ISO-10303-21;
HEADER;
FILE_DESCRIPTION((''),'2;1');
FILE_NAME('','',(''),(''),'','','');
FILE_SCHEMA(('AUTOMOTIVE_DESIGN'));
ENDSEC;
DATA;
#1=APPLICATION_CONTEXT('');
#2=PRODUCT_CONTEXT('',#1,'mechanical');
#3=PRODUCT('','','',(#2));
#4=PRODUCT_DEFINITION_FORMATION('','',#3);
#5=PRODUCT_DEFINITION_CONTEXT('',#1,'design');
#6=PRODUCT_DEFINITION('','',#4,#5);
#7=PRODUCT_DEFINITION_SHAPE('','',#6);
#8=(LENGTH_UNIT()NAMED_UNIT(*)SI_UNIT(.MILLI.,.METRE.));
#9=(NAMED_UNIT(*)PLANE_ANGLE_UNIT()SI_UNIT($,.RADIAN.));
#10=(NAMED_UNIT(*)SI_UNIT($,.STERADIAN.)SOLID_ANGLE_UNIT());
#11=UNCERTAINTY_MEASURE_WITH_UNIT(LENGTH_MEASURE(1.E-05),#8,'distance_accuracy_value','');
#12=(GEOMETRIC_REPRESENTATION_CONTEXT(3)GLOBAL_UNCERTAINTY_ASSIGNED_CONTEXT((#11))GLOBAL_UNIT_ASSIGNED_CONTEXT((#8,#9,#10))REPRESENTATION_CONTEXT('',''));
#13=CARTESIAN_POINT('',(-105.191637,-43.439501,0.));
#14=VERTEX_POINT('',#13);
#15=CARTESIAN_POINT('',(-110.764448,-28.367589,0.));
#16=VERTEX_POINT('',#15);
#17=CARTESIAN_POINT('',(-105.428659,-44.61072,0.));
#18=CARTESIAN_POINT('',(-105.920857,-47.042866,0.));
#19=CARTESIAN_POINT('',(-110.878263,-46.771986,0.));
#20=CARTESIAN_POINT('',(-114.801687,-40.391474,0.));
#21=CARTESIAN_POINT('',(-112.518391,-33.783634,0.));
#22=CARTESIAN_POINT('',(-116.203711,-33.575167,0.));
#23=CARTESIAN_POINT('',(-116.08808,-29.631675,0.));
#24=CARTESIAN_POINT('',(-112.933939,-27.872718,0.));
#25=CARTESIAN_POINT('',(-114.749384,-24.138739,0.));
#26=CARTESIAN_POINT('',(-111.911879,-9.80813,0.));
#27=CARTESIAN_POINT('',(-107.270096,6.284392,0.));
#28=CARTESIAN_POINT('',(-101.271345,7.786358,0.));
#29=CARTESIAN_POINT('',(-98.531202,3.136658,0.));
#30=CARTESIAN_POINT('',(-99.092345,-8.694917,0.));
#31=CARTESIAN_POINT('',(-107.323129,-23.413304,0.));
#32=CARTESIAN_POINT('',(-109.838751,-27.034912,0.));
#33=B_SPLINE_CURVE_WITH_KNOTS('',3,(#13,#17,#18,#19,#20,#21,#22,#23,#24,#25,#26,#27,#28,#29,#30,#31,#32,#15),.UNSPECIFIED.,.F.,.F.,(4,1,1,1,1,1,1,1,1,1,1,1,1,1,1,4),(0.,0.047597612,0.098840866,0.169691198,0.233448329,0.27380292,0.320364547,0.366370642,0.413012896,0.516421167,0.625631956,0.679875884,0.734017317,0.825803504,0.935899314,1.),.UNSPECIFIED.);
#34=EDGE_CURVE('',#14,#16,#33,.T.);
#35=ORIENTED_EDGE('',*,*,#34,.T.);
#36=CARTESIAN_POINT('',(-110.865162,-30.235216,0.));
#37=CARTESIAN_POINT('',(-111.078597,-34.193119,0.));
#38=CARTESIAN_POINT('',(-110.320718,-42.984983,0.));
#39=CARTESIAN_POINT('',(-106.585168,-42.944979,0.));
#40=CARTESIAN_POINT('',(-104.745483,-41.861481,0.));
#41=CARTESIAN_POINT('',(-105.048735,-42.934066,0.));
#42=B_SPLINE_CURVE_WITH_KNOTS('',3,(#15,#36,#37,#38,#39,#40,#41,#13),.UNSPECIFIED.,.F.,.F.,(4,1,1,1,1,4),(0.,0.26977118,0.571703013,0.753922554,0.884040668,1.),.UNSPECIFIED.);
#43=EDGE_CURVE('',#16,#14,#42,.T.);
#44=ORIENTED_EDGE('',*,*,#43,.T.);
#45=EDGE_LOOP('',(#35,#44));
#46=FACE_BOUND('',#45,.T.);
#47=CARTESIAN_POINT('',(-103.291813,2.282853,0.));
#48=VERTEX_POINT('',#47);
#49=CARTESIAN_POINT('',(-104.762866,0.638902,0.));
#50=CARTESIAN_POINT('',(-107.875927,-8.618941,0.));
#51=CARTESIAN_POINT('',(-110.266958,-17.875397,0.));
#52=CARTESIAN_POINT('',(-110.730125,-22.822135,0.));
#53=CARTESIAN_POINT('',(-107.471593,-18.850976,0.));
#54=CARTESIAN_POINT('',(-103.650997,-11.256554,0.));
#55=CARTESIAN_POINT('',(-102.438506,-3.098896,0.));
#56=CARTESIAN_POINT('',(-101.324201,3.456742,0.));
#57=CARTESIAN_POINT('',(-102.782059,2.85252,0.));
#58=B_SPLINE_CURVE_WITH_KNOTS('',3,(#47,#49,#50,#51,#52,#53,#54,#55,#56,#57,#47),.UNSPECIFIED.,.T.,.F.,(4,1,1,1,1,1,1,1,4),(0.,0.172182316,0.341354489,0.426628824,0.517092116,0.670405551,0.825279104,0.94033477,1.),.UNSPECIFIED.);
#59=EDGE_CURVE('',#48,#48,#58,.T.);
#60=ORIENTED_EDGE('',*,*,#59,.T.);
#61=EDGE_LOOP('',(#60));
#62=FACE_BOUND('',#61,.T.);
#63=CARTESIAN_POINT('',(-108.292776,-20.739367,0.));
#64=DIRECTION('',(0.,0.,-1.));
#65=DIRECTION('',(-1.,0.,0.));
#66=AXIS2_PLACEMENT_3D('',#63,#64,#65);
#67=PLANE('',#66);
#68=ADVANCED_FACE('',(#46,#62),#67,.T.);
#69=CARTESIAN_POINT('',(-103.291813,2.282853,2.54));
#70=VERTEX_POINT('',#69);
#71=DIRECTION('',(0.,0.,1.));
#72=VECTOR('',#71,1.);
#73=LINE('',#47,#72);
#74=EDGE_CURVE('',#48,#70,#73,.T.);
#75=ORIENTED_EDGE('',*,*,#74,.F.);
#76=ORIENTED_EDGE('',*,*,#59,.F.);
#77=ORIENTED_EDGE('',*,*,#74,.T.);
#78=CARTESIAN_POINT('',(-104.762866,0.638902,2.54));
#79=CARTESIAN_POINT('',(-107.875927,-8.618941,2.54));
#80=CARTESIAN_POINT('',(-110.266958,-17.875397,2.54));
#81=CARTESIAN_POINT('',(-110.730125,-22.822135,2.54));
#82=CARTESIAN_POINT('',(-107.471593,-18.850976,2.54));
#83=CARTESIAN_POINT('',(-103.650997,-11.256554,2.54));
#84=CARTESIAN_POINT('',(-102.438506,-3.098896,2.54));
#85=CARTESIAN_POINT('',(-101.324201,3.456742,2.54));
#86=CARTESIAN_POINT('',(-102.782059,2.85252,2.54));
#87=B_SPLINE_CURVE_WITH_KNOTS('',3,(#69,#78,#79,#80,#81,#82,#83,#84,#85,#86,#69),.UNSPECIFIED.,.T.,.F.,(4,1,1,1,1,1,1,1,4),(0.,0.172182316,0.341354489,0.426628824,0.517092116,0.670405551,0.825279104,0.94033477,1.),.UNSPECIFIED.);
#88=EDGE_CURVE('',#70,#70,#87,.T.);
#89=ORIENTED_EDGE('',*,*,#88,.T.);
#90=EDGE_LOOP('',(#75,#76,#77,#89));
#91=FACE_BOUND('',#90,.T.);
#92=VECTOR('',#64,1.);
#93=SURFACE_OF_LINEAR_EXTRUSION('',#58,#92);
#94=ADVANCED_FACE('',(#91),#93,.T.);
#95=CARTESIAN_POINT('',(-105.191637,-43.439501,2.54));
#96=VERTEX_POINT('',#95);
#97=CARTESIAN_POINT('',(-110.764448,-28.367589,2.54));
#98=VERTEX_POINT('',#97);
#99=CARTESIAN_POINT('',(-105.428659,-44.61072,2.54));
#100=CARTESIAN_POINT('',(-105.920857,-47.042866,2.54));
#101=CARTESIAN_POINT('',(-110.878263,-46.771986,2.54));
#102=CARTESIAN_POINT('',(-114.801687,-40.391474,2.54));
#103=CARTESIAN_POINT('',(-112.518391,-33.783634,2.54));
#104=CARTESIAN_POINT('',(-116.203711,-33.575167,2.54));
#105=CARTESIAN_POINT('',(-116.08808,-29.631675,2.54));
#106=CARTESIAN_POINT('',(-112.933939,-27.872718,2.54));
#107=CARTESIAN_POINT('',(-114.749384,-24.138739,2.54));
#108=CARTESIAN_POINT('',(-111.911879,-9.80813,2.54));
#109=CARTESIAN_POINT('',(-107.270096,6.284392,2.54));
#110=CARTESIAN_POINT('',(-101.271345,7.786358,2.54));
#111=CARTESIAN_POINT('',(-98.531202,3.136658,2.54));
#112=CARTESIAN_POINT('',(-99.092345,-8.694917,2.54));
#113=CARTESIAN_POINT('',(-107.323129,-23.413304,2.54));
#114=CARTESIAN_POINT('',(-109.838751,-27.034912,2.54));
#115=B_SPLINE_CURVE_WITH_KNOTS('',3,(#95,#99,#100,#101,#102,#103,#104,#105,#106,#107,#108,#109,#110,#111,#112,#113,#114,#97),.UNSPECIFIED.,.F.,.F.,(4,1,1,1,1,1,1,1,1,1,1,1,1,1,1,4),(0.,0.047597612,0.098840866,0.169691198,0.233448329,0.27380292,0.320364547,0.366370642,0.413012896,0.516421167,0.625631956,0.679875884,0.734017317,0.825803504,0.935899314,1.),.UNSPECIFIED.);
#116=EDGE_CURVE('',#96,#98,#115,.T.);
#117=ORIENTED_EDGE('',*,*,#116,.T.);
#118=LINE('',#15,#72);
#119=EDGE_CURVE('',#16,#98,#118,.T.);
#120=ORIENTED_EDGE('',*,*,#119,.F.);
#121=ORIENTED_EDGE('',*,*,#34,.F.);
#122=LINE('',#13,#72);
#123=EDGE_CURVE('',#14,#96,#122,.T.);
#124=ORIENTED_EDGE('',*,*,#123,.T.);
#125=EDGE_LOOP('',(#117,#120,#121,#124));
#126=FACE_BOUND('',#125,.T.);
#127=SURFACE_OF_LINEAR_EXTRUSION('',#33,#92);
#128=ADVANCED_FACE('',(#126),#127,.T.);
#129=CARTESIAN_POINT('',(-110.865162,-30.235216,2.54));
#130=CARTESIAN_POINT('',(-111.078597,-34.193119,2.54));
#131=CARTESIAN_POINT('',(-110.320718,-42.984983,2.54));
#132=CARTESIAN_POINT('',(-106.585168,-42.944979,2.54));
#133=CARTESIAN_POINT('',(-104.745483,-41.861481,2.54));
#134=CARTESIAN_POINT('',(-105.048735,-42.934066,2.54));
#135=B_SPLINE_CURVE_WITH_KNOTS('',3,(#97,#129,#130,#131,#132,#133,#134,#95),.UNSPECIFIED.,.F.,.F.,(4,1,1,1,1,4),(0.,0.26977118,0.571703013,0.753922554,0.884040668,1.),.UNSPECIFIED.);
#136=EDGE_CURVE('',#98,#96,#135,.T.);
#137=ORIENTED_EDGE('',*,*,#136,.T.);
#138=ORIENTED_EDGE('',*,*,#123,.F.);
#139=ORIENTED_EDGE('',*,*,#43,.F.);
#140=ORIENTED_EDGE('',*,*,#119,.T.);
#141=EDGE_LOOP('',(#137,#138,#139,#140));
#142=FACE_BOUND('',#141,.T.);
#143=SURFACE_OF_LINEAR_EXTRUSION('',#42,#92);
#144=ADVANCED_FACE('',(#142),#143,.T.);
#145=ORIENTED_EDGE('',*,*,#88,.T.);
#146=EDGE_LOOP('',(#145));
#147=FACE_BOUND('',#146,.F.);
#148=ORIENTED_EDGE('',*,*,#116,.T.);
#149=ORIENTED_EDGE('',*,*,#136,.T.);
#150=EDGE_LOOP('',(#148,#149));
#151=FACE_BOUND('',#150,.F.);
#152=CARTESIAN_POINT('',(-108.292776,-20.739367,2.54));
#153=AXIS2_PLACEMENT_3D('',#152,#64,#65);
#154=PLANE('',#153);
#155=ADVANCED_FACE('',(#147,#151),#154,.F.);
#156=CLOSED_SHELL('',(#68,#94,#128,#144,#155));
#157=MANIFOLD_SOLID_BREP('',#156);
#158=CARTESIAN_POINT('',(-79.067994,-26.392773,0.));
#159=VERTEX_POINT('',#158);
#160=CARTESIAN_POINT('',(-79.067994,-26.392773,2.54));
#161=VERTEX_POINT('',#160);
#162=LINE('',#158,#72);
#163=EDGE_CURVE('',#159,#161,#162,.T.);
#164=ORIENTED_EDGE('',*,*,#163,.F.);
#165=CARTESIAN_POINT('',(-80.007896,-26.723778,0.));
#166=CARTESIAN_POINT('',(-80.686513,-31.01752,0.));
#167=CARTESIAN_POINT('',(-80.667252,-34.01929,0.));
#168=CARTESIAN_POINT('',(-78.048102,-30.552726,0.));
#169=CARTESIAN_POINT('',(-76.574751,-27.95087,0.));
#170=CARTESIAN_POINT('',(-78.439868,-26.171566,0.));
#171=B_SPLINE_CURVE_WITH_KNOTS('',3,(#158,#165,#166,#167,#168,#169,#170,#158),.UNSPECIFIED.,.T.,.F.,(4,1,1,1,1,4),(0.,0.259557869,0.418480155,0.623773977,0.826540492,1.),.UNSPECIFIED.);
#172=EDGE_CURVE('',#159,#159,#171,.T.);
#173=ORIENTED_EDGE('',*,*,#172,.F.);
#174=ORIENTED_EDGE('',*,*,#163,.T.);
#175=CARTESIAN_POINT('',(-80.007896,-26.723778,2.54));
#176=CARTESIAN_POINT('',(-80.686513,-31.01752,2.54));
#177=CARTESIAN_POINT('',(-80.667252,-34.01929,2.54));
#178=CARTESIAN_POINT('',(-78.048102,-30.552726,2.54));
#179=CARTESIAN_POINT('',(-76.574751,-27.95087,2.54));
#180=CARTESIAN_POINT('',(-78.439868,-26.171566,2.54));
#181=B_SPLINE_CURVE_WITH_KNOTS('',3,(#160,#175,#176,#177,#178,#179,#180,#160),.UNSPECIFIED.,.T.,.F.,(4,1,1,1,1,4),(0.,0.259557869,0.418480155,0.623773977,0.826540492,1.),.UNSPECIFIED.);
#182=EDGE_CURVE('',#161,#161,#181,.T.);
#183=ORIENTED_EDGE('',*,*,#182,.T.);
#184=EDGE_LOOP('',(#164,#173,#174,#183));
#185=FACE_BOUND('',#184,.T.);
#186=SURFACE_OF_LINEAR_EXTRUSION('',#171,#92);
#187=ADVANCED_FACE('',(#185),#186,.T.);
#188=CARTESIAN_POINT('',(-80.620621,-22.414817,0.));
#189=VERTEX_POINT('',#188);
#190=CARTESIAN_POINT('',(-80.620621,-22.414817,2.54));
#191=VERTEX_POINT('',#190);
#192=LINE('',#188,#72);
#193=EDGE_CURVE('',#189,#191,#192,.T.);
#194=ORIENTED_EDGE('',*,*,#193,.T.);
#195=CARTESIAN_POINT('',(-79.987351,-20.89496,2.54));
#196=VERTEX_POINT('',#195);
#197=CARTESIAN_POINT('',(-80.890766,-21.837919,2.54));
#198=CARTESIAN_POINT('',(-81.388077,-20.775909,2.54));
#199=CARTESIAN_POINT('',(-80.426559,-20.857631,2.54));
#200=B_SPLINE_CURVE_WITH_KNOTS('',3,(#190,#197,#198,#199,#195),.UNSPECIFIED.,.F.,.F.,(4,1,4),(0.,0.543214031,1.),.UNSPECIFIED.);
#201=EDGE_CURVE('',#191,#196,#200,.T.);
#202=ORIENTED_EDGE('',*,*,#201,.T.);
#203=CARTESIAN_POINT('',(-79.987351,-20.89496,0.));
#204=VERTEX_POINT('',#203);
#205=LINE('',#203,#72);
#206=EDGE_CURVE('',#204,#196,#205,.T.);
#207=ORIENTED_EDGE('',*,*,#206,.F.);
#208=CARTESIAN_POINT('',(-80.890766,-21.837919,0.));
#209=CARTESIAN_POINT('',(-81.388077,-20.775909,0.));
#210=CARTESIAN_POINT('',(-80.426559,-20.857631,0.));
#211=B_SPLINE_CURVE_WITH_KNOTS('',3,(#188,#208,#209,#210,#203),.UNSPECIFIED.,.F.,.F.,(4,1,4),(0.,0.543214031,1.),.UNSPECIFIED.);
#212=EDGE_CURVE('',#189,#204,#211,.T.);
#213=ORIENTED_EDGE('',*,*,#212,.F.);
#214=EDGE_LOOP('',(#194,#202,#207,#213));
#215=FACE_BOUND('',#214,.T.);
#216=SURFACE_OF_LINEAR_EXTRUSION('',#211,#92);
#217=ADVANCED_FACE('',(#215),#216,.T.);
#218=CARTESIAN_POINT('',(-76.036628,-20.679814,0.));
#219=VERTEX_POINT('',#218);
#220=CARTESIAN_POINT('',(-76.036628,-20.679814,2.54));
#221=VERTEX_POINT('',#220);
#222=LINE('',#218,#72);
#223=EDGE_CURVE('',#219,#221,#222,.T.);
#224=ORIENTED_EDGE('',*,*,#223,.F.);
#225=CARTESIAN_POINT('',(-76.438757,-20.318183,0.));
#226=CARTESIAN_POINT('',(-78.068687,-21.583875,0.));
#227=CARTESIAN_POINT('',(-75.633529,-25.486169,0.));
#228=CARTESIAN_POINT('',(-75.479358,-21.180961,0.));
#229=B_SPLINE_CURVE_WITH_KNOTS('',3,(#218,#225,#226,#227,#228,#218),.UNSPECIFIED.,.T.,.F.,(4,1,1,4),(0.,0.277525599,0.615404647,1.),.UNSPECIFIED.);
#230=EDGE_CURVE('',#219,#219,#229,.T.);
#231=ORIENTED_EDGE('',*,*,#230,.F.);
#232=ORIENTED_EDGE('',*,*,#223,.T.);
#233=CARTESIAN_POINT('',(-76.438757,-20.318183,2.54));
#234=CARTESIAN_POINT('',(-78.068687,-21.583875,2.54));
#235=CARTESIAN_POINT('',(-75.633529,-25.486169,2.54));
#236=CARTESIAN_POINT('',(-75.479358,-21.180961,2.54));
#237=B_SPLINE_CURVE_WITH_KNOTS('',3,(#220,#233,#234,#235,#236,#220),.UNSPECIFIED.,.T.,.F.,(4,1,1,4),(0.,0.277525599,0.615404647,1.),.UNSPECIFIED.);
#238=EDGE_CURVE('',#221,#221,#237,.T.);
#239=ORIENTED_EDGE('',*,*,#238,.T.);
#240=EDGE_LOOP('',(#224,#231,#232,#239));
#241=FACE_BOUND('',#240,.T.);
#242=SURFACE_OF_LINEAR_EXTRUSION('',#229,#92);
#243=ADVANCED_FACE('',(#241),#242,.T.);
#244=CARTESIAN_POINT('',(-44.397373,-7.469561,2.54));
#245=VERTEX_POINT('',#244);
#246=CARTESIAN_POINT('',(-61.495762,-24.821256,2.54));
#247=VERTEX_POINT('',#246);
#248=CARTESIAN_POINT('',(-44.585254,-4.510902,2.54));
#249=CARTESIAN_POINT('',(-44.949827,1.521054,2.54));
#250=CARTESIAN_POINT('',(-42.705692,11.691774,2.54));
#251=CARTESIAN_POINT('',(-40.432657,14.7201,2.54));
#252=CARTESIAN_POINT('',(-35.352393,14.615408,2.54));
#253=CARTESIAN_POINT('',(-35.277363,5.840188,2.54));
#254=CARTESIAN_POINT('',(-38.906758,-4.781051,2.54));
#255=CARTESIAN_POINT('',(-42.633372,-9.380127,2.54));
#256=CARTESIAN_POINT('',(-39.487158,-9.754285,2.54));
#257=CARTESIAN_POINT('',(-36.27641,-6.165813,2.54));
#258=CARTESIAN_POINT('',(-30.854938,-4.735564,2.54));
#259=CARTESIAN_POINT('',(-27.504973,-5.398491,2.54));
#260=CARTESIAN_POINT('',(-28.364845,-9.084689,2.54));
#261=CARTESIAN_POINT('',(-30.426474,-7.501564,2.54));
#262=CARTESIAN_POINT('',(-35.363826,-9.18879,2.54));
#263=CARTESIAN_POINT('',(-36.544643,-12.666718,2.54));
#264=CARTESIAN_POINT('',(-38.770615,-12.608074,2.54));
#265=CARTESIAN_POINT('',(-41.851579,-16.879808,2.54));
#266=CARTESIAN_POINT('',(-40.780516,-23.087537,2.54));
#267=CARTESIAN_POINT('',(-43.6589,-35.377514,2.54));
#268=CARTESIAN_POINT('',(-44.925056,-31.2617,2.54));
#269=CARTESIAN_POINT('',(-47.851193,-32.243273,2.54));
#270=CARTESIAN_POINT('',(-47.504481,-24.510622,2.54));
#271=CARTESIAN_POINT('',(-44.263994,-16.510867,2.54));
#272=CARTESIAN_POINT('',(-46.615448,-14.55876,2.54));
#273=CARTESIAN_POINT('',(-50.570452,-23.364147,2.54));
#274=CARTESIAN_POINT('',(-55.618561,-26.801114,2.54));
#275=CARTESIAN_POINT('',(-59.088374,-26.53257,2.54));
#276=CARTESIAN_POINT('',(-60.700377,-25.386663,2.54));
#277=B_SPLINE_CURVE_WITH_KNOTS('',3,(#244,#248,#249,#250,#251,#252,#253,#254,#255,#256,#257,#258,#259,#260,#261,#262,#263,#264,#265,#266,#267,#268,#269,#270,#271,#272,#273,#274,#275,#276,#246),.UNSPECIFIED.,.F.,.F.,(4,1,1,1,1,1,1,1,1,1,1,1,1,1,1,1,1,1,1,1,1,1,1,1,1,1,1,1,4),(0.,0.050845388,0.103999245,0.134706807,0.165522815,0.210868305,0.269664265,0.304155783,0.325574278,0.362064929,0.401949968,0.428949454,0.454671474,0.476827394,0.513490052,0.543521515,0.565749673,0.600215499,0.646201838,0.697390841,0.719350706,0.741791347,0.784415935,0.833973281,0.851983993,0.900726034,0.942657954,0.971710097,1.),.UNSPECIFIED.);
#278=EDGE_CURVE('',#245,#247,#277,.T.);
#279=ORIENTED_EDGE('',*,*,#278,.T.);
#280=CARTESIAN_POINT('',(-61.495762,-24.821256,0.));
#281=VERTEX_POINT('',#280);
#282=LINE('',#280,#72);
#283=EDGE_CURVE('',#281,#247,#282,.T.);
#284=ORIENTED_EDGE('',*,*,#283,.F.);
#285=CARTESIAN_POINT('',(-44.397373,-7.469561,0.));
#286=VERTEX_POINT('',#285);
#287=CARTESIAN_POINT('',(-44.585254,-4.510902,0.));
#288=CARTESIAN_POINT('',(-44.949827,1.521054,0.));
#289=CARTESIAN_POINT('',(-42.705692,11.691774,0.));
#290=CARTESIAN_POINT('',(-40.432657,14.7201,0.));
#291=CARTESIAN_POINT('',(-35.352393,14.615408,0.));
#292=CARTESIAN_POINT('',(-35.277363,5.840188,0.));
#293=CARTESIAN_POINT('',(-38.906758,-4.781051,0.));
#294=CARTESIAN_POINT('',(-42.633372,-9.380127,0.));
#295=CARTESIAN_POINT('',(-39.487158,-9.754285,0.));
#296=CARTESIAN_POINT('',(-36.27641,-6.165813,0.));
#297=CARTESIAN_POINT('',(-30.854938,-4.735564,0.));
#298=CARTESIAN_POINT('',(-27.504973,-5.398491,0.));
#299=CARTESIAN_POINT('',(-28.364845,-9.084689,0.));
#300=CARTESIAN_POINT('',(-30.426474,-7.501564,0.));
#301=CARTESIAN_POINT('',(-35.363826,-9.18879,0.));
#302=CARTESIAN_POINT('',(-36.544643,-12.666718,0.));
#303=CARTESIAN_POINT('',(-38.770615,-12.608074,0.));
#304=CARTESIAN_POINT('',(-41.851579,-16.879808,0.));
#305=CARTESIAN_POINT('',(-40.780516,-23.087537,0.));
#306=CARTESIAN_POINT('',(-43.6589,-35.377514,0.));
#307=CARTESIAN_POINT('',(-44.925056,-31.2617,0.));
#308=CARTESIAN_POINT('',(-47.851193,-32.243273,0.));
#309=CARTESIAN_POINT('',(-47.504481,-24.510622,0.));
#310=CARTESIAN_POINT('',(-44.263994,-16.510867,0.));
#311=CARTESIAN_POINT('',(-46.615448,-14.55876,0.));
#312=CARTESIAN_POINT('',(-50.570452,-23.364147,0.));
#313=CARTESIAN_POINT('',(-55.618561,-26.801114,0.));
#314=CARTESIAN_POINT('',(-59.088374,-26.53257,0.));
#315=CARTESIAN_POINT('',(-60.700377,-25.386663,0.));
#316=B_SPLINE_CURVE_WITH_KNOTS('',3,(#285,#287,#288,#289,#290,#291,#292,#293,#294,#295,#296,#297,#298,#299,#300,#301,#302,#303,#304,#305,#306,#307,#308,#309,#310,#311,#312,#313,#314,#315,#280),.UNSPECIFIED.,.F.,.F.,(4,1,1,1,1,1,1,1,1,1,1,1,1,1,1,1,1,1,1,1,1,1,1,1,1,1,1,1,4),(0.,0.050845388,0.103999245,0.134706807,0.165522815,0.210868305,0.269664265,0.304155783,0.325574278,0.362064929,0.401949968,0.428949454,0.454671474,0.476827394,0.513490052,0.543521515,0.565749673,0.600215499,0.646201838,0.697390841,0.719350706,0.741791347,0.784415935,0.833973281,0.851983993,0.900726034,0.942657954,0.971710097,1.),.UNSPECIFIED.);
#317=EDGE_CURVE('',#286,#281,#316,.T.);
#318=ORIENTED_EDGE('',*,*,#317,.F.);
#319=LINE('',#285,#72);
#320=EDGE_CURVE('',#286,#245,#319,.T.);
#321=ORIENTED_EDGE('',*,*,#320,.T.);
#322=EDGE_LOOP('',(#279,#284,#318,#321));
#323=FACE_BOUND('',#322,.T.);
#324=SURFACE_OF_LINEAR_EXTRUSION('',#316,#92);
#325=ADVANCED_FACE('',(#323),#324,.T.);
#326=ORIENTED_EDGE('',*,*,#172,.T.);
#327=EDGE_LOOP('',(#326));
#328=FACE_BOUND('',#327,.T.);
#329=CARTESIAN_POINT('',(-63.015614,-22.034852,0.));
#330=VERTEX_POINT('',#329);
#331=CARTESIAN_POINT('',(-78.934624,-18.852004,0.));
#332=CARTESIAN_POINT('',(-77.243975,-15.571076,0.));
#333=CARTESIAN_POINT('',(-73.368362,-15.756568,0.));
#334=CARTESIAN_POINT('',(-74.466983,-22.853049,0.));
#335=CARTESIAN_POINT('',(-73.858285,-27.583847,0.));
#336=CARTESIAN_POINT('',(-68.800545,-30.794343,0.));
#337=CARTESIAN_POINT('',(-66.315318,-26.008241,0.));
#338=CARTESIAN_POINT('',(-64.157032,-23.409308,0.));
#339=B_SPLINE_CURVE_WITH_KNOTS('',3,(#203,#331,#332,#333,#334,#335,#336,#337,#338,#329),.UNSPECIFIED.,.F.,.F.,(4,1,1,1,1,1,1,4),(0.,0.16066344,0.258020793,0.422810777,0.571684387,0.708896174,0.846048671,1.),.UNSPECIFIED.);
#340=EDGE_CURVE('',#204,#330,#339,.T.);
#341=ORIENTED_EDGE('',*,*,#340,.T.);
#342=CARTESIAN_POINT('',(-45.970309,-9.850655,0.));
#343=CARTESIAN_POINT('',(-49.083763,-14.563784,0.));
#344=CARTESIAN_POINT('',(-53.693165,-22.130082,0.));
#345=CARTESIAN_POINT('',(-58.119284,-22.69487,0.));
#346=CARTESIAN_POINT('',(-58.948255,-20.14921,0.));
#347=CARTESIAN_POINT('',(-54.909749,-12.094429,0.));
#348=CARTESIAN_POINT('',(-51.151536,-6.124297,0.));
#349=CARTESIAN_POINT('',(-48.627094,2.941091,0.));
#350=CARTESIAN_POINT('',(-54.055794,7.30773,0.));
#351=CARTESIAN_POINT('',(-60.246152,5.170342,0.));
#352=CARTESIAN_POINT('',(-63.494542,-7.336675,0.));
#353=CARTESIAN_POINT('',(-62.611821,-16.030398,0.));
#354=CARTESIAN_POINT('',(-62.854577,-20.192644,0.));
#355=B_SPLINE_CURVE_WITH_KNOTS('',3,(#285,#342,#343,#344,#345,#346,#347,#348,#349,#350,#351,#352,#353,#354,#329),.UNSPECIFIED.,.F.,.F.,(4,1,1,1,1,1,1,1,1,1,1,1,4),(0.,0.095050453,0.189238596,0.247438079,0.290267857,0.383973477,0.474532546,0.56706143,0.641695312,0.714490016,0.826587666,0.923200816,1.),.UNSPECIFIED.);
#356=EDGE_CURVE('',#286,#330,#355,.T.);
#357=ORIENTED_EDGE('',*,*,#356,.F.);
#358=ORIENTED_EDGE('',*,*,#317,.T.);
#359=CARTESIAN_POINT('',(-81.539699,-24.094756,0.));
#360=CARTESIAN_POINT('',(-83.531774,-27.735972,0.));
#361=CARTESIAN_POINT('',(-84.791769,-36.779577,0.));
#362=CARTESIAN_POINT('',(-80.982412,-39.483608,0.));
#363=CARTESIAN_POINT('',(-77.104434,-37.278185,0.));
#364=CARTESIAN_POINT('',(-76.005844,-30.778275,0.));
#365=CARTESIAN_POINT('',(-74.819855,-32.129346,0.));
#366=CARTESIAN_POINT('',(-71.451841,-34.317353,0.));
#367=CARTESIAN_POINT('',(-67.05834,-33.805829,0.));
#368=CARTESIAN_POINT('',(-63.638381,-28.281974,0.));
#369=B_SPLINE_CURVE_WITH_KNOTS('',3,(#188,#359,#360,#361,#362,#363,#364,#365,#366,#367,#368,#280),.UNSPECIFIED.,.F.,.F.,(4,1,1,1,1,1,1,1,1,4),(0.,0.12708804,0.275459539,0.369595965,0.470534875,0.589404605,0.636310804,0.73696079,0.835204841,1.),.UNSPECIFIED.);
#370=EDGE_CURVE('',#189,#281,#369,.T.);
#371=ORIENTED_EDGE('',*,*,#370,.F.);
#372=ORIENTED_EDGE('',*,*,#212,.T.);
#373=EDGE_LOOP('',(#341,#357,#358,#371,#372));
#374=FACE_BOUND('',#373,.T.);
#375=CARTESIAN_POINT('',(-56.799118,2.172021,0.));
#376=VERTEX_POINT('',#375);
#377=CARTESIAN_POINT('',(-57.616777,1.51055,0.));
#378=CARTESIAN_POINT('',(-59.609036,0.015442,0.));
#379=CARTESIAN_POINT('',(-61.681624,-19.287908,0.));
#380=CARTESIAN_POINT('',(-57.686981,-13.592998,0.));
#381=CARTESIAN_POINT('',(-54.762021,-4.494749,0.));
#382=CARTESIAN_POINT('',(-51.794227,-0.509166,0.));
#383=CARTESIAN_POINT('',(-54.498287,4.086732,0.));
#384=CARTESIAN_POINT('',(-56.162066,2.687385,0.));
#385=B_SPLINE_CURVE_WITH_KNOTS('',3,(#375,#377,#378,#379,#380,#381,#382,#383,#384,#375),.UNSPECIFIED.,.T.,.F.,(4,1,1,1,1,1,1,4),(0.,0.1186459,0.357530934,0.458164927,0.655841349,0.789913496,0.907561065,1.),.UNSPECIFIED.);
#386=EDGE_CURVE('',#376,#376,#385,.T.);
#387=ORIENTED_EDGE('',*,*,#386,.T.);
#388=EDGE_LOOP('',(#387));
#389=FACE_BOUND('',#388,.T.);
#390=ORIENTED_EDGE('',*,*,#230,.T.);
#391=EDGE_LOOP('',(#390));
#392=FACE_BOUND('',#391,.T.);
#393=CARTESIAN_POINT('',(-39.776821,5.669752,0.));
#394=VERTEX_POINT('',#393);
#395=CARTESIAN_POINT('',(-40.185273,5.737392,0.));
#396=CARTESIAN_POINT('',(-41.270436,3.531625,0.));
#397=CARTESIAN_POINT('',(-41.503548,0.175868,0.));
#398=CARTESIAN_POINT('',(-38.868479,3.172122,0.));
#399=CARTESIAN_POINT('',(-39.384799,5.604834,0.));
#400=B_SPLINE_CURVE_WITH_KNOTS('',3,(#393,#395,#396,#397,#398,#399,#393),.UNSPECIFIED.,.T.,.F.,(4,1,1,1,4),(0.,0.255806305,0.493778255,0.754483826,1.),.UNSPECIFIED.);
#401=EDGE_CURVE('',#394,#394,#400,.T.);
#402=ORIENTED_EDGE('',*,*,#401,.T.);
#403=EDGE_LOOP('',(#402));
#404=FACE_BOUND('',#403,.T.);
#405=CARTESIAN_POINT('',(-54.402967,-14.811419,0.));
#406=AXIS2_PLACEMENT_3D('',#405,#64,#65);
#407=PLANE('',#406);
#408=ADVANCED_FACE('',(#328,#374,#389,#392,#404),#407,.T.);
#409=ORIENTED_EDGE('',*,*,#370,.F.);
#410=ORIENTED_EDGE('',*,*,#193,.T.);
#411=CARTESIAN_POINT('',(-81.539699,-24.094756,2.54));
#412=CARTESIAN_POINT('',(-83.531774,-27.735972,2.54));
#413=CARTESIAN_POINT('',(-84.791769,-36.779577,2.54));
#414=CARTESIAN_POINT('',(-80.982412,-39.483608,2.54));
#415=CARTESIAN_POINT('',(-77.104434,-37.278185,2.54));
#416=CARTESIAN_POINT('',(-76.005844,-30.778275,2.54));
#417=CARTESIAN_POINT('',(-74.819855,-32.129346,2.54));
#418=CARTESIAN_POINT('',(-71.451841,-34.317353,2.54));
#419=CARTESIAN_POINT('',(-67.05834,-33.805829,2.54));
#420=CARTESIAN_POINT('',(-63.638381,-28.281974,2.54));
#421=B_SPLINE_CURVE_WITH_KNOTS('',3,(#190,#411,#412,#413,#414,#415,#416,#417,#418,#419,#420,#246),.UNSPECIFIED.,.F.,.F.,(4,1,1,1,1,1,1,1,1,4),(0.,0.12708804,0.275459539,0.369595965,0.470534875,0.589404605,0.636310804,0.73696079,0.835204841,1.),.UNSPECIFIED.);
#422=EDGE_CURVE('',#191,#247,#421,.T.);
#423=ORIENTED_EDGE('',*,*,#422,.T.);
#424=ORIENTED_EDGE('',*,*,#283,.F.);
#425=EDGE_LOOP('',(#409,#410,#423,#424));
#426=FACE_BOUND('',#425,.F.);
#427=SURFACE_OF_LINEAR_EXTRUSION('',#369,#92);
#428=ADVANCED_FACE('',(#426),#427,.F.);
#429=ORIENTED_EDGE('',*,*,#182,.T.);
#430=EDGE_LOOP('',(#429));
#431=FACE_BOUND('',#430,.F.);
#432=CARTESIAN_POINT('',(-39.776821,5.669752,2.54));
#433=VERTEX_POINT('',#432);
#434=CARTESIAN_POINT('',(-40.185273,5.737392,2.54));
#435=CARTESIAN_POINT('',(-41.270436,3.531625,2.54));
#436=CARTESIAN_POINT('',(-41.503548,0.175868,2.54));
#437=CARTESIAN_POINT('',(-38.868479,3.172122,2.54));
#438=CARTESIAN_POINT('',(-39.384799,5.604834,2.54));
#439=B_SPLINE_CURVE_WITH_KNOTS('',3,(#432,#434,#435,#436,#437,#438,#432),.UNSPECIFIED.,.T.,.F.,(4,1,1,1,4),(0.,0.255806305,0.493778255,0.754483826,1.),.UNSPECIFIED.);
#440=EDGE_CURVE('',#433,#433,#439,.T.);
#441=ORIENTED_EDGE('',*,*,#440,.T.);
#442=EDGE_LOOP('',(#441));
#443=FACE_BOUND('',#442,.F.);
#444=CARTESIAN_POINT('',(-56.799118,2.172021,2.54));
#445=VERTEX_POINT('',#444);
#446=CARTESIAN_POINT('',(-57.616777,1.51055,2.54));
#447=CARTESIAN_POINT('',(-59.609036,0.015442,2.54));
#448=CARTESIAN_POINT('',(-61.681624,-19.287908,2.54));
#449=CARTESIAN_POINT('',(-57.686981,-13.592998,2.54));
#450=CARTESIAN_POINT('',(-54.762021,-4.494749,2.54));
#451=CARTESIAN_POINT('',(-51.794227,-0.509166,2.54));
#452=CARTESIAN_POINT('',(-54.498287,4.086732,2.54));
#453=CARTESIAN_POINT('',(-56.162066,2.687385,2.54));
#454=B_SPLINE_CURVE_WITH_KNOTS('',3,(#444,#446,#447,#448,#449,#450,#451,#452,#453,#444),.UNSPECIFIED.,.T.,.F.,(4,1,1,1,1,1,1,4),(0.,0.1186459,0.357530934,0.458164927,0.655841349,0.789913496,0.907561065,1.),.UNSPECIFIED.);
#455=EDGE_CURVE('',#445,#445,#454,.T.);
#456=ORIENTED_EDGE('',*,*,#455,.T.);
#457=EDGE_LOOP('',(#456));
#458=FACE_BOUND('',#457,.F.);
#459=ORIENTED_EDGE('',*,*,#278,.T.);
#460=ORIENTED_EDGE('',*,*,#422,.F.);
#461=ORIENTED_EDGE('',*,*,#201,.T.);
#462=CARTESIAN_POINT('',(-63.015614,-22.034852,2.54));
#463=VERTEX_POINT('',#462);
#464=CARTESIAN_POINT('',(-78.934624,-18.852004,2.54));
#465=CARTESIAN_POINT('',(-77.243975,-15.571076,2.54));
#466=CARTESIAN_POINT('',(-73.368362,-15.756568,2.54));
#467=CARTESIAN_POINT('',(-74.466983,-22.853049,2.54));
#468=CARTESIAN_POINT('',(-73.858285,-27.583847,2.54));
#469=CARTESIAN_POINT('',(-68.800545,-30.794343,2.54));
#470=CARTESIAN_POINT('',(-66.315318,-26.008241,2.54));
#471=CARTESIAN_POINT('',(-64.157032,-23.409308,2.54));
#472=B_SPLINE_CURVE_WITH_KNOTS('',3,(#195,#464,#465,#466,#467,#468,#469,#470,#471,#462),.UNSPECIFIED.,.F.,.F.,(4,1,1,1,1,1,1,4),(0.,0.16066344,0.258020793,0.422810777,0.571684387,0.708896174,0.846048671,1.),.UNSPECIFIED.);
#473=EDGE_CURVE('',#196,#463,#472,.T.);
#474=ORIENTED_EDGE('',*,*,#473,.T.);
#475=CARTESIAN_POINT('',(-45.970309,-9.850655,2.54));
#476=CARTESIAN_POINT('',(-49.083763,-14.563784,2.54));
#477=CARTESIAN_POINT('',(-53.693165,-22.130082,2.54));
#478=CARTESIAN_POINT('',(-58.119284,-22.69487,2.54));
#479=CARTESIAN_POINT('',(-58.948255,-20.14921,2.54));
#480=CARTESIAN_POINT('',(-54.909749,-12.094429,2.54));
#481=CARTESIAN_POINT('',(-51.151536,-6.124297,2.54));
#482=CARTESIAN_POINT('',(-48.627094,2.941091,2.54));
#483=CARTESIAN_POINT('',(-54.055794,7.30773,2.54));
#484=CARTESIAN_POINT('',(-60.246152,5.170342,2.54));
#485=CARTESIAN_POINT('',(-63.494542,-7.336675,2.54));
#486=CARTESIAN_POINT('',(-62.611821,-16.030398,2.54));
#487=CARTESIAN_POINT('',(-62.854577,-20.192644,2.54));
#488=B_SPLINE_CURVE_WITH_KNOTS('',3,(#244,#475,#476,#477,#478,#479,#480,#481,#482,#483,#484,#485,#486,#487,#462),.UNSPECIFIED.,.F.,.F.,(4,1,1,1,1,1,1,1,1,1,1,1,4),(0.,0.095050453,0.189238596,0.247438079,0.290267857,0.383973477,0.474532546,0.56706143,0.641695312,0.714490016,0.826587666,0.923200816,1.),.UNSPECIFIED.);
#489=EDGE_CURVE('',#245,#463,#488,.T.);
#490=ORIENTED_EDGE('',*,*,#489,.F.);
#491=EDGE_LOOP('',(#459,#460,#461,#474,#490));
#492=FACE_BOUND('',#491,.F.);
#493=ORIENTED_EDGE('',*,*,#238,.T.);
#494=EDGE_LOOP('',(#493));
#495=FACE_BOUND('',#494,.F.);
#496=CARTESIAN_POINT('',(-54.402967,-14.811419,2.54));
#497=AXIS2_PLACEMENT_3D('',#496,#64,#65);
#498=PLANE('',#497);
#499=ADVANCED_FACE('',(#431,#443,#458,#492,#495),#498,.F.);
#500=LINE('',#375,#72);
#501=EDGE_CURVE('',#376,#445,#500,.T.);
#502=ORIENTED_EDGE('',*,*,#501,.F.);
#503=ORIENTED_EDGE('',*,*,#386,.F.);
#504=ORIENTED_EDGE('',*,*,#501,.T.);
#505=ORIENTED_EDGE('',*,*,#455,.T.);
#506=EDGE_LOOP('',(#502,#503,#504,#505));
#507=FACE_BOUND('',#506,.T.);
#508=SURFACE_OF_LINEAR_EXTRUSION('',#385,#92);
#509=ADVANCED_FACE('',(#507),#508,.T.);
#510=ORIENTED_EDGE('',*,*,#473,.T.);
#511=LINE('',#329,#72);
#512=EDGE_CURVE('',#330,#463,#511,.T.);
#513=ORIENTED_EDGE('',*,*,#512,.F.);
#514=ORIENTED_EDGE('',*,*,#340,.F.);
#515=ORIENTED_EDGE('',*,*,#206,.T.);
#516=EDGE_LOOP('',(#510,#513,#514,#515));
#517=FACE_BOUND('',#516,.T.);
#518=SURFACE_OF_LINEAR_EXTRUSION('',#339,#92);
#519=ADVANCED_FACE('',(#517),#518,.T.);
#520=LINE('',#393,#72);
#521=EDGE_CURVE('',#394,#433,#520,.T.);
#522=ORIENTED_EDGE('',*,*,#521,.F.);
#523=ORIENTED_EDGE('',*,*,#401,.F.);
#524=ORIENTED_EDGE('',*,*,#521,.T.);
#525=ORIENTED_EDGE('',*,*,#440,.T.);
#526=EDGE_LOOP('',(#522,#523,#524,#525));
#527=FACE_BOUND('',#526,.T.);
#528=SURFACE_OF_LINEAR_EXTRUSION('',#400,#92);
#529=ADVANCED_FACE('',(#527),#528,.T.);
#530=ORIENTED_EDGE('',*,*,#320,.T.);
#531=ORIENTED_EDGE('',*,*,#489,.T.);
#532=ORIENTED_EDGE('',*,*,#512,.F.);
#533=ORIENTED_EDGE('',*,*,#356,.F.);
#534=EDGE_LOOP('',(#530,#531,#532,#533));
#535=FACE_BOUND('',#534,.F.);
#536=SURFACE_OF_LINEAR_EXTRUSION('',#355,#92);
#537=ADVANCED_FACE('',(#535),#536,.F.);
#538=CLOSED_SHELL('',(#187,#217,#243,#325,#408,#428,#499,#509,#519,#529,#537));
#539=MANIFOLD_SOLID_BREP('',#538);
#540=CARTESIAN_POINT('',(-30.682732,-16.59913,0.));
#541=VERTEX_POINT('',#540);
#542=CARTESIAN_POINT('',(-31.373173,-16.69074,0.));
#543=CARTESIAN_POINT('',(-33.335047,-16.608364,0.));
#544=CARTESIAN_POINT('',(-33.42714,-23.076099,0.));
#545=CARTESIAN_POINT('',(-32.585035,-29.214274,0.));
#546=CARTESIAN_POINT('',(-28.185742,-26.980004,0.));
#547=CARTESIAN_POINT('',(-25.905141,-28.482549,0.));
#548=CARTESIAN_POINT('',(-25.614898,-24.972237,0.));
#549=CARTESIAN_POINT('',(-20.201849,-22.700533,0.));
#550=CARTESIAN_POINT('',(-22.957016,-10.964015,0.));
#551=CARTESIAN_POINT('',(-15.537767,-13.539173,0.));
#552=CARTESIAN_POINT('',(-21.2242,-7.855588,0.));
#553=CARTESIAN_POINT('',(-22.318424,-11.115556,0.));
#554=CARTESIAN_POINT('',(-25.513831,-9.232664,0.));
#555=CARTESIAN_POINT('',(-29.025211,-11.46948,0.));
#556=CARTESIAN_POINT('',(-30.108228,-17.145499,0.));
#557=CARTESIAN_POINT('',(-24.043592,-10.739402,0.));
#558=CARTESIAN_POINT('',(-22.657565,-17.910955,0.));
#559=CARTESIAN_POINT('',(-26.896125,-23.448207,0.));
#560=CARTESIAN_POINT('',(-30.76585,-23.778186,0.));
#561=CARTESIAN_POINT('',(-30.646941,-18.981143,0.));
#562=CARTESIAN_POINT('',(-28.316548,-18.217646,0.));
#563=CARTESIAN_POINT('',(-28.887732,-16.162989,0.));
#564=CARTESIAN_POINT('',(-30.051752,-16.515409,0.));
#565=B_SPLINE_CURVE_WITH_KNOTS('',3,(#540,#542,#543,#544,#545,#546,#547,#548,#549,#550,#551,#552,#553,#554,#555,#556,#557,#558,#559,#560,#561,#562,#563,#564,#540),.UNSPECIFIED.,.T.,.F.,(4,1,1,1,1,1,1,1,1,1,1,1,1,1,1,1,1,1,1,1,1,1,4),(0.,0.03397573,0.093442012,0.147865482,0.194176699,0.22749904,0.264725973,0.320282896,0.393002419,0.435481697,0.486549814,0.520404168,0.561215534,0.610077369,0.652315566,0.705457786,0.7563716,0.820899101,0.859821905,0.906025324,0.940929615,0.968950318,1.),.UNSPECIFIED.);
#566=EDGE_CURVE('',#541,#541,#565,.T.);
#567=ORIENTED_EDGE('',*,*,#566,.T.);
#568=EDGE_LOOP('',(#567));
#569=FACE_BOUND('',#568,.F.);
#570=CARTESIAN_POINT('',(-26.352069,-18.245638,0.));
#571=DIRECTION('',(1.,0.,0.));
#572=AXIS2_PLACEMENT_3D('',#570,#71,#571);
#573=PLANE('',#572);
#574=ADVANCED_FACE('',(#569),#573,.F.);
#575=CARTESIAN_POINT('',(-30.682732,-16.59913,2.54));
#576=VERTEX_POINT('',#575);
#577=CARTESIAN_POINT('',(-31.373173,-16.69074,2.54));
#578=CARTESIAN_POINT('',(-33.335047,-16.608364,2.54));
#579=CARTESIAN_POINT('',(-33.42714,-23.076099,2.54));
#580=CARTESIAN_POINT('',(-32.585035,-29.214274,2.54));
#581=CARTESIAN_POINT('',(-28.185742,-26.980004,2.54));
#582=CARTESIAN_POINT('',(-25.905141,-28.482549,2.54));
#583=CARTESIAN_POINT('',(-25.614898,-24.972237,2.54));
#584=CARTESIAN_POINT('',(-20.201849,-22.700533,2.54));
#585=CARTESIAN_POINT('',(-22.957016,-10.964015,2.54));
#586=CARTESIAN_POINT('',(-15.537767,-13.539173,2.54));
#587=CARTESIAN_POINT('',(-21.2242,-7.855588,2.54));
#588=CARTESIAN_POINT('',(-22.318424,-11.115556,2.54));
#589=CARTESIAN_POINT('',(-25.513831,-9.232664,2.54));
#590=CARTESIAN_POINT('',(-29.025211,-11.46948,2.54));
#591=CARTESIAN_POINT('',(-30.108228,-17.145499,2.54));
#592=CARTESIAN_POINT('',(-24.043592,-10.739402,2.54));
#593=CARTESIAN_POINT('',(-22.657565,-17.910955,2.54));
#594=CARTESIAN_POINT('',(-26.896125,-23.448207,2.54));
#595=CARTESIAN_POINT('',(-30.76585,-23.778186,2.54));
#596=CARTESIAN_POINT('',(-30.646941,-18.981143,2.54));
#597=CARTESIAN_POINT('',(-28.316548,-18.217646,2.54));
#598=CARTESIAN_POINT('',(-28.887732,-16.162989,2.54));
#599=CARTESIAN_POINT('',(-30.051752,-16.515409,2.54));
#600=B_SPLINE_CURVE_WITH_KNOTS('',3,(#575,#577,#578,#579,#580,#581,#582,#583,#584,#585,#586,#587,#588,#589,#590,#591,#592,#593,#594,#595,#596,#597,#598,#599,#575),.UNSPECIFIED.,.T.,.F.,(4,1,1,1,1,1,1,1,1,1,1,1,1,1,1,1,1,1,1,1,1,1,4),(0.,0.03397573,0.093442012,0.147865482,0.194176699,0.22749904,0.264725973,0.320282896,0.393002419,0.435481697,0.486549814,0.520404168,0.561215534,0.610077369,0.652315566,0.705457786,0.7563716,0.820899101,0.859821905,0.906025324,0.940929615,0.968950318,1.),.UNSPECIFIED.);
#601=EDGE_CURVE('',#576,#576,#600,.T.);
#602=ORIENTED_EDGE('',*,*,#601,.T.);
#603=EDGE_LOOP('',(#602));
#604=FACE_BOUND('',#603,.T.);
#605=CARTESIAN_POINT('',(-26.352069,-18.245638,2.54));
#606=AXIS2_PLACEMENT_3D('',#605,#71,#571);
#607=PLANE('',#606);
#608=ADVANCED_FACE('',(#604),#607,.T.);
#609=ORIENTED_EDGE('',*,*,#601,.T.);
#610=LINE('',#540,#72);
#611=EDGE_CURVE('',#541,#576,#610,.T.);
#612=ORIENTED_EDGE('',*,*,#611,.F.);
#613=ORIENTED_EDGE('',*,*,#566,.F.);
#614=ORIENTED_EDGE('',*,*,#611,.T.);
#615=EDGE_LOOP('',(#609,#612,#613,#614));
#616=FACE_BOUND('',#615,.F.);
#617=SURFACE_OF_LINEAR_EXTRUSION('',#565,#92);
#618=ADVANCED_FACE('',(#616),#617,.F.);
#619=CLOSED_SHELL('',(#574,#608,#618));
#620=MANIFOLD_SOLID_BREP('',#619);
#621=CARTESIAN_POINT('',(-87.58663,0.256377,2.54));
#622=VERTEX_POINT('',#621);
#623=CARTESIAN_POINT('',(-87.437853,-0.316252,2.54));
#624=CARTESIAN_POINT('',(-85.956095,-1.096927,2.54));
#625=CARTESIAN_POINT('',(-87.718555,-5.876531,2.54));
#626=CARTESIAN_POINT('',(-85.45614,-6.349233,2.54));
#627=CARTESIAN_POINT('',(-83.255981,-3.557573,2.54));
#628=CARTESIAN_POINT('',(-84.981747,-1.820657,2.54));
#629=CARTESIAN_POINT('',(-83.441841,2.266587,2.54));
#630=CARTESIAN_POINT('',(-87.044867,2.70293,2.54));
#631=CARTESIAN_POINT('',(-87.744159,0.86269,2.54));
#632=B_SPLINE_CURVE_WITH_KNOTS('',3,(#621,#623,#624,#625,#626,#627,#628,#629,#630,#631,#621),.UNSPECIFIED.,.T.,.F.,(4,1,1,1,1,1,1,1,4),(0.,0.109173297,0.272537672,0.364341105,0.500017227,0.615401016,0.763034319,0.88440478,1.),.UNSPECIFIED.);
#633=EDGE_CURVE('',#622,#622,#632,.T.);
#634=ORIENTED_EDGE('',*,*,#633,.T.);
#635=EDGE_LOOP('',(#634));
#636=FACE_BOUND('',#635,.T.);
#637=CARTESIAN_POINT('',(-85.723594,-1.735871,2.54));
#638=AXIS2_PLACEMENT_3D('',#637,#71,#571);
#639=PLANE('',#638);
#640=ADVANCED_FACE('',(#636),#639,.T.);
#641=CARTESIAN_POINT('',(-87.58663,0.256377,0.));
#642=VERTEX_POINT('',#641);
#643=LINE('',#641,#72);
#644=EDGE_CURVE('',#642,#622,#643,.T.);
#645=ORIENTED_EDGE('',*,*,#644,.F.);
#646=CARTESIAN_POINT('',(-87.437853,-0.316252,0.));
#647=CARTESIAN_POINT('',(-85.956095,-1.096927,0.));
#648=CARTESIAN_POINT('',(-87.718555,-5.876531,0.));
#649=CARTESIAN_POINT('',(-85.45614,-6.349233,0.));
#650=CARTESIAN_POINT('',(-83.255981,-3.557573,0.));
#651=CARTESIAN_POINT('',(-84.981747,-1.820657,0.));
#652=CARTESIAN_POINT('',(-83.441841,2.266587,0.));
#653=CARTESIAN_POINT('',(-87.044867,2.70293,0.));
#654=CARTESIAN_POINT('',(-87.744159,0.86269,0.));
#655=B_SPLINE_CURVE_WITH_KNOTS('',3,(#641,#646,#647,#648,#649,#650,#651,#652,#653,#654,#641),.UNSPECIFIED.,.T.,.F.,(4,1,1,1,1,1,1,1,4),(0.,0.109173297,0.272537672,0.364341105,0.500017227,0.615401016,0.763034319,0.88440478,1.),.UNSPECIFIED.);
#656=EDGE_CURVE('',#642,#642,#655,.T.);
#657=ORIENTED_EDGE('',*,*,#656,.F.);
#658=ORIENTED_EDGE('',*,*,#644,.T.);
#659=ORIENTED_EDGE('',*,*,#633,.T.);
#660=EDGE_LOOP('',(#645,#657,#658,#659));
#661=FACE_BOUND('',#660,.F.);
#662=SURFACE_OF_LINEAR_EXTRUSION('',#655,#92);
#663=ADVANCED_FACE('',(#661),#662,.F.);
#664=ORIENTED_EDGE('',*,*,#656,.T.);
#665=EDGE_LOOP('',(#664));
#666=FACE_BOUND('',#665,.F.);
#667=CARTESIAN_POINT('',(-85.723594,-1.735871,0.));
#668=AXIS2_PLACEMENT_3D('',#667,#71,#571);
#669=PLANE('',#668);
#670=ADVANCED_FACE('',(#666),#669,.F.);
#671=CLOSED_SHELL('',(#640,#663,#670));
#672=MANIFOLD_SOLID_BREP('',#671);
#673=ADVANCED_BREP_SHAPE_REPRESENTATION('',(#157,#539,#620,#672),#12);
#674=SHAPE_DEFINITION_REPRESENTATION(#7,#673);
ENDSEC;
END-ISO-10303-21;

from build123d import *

# Parameters (mm, degrees)
F1_DEPTH = 2.54


with BuildPart() as f1:
    # F0 (on Top) → F1 (new body)
    with BuildSketch(Plane.XY):
        with BuildLine():
            add(Edge.make_bspline(
                [(-105.1916369373, -43.4395006613), (-105.4286587271, -44.6107198909), (-105.9208565095, -47.0428655083), (-110.8782632074, -46.7719864983), (-114.8016871883, -40.3914735668), (-112.5183914401, -33.7836341063), (-116.203711005, -33.5751667036), (-116.0880801376, -29.6316751295), (-112.9339394257, -27.8727175156), (-114.7493844142, -24.1387393121), (-111.9118788162, -9.8081298495), (-107.2700959443, 6.2843922128), (-101.2713453968, 7.7863582687), (-98.5312015729, 3.1366575484), (-99.0923449759, -8.694916576), (-107.323129171, -23.4133042791), (-109.8387511607, -27.0349124703), (-110.7644477064, -28.367588924)],
                knots=[0, 0, 0, 0, 0.0475976116, 0.0988408656, 0.1696911981, 0.2334483289, 0.2738029197, 0.320364547, 0.3663706422, 0.4130128957, 0.5164211668, 0.6256319564, 0.6798758841, 0.7340173174, 0.8258035038, 0.9358993142, 1, 1, 1, 1], degree=3))
            add(Edge.make_bspline(
                [(-110.7644477064, -28.367588924), (-110.8651618645, -30.2352161169), (-111.0785967749, -34.1931188565), (-110.3207176857, -42.984982685), (-106.5851678558, -42.9449786968), (-104.7454826836, -41.8614809246), (-105.0487350216, -42.9340655084), (-105.1916369373, -43.4395006613)],
                knots=[0, 0, 0, 0, 0.2697711802, 0.5717030129, 0.753922554, 0.8840406683, 1, 1, 1, 1], degree=3))
        make_face()
        with BuildLine():
            add(Edge.make_bspline(
                [(-103.2918133909, 2.2828526108), (-104.7628659388, 0.6389023236), (-107.8759270209, -8.618940825), (-110.266957756, -17.8753965393), (-110.730125033, -22.8221348636), (-107.4715929088, -18.8509764542), (-103.6509967771, -11.2565541144), (-102.4385058577, -3.0988958693), (-101.3242012239, 3.4567417495), (-102.7820590164, 2.8525201264), (-103.2918133909, 2.2828526108)],
                knots=[0, 0, 0, 0, 0.1721823161, 0.3413544894, 0.4266288238, 0.5170921155, 0.6704055508, 0.8252791044, 0.9403347698, 1, 1, 1, 1], degree=3))
        make_face(mode=Mode.SUBTRACT)
    extrude(amount=F1_DEPTH)


with BuildPart() as f1b:
    # F0 (on Top) → F1, piece 2 (new body)
    with BuildSketch(Plane.XY):
        with BuildLine():
            add(Edge.make_bspline(
                [(-87.5866302425, 0.2563766448), (-87.4378531805, -0.3162524735), (-85.9560952927, -1.0969267977), (-87.7185549907, -5.8765314112), (-85.4561396063, -6.3492326529), (-83.2559814691, -3.5575734435), (-84.9817469989, -1.820657482), (-83.4418413083, 2.2665873463), (-87.0448673497, 2.7029302994), (-87.7441588477, 0.8626896416), (-87.5866302425, 0.2563766448)],
                knots=[0, 0, 0, 0, 0.1091732967, 0.2725376715, 0.3643411054, 0.5000172274, 0.6154010155, 0.763034319, 0.8844047803, 1, 1, 1, 1], degree=3))
        make_face()
    extrude(amount=F1_DEPTH)


with BuildPart() as f1c:
    # F0 (on Top) → F1, piece 3 (new body)
    with BuildSketch(Plane.XY):
        with BuildLine():
            add(Edge.make_bspline(
                [(-80.6206205064, -22.4148171709), (-80.890766492, -21.8379185671), (-81.3880768894, -20.7759088048), (-80.4265588895, -20.8576307559), (-79.987350958, -20.8949601965)],
                knots=[0, 0, 0, 0, 0.5432140309, 1, 1, 1, 1], degree=3))
            add(Edge.make_bspline(
                [(-80.6206205064, -22.4148171709), (-81.5396987861, -24.0947555345), (-83.5317735612, -27.7359718613), (-84.7917686666, -36.7795767693), (-80.9824123403, -39.4836079912), (-77.1044338004, -37.2781852907), (-76.0058437932, -30.7782750009), (-74.8198550469, -32.1293460228), (-71.451841344, -34.3173530871), (-67.0583402097, -33.8058290421), (-63.6383810577, -28.281974087), (-61.4957624251, -24.8212559836)],
                knots=[0, 0, 0, 0, 0.1270880405, 0.2754595394, 0.369595965, 0.470534875, 0.5894046052, 0.636310804, 0.7369607905, 0.8352048413, 1, 1, 1, 1], degree=3))
            add(Edge.make_bspline(
                [(-44.3973728136, -7.469560609), (-44.5852540282, -4.5109018615), (-44.9498274277, 1.5210536631), (-42.7056921946, 11.6917740139), (-40.432657254, 14.7200998277), (-35.3523932964, 14.6154082663), (-35.2773626928, 5.8401876078), (-38.9067575975, -4.7810508771), (-42.6333720225, -9.3801266773), (-39.4871577732, -9.7542849532), (-36.276409935, -6.1658132936), (-30.8549379831, -4.7355643391), (-27.5049727608, -5.3984909115), (-28.3648453399, -9.0846886149), (-30.4264744307, -7.5015643425), (-35.3638256228, -9.1887901819), (-36.5446429781, -12.6667180559), (-38.7706149398, -12.6080739935), (-41.8515791726, -16.8798083292), (-40.7805163957, -23.0875367663), (-43.6588998975, -35.3775138376), (-44.9250555859, -31.2616995798), (-47.8511927021, -32.2432730054), (-47.5044810642, -24.5106217504), (-44.2639936988, -16.510866507), (-46.6154479873, -14.558759902), (-50.570451858, -23.3641466749), (-55.6185607903, -26.8011141251), (-59.0883738879, -26.5325702783), (-60.7003774346, -25.3866627233), (-61.4957624251, -24.8212559836)],
                knots=[0, 0, 0, 0, 0.0508453884, 0.1039992445, 0.134706807, 0.165522815, 0.2108683051, 0.2696642653, 0.3041557832, 0.3255742776, 0.362064929, 0.4019499678, 0.4289494539, 0.4546714737, 0.476827394, 0.5134900517, 0.5435215148, 0.5657496731, 0.6002154989, 0.6462018383, 0.6973908406, 0.7193507065, 0.7417913466, 0.7844159347, 0.8339732812, 0.8519839934, 0.9007260337, 0.9426579538, 0.9717100968, 1, 1, 1, 1], degree=3))
            add(Edge.make_bspline(
                [(-44.3973728136, -7.469560609), (-45.9703090294, -9.8506548043), (-49.0837630213, -14.5637844784), (-53.6931645114, -22.1300823443), (-58.1192843194, -22.6948699652), (-58.9482545653, -20.1492102525), (-54.9097493209, -12.0944292831), (-51.1515357382, -6.1242968013), (-48.6270943193, 2.9410908169), (-54.0557936299, 7.3077304678), (-60.2461518405, 5.1703416033), (-63.4945421443, -7.3366752172), (-62.611821372, -16.0303983565), (-62.8545768185, -20.1926442317), (-63.0156138116, -22.0348524617)],
                knots=[0, 0, 0, 0, 0.0950504528, 0.1892385957, 0.2474380789, 0.2902678571, 0.3839734774, 0.4745325465, 0.5670614296, 0.6416953115, 0.7144900155, 0.8265876659, 0.923200816, 1, 1, 1, 1], degree=3))
            add(Edge.make_bspline(
                [(-79.987350958, -20.8949601965), (-78.934623867, -18.8520041634), (-77.2439748981, -15.5710764277), (-73.3683619741, -15.7565679765), (-74.4669826435, -22.8530485302), (-73.8582846929, -27.583846609), (-68.8005445206, -30.7943430066), (-66.315318238, -26.00824069), (-64.1570316221, -23.4093077175), (-63.0156138116, -22.0348524617)],
                knots=[0, 0, 0, 0, 0.16066344, 0.2580207934, 0.4228107773, 0.5716843869, 0.7088961737, 0.8460486714, 1, 1, 1, 1], degree=3))
        make_face()
        with BuildLine():
            add(Edge.make_bspline(
                [(-79.0679940158, -26.3927729556), (-80.007896238, -26.7237778512), (-80.6865130691, -31.0175199921), (-80.6672515887, -34.0192900011), (-78.048101932, -30.5527264308), (-76.5747509984, -27.9508695967), (-78.4398682824, -26.1715662301), (-79.0679940158, -26.3927729556)],
                knots=[0, 0, 0, 0, 0.2595578694, 0.418480155, 0.6237739775, 0.8265404919, 1, 1, 1, 1], degree=3))
        make_face(mode=Mode.SUBTRACT)
        with BuildLine():
            add(Edge.make_bspline(
                [(-76.0366284424, -20.6798135059), (-76.4387567891, -20.3181833168), (-78.0686867782, -21.5838754574), (-75.6335285096, -25.4861688575), (-75.479358433, -21.1809611135), (-76.0366284424, -20.6798135059)],
                knots=[0, 0, 0, 0, 0.2775255995, 0.615404647, 1, 1, 1, 1], degree=3))
        make_face(mode=Mode.SUBTRACT)
        with BuildLine():
            add(Edge.make_bspline(
                [(-56.7991175825, 2.1720214991), (-57.6167766767, 1.5105496434), (-59.609035735, 0.0154417762), (-61.6816241248, -19.2879079879), (-57.6869813887, -13.5929977983), (-54.7620207325, -4.4947488269), (-51.7942265066, -0.5091656785), (-54.4982869258, 4.086731535), (-56.162066185, 2.6873848982), (-56.7991175825, 2.1720214991)],
                knots=[0, 0, 0, 0, 0.1186458997, 0.3575309341, 0.4581649269, 0.6558413492, 0.7899134956, 0.9075610646, 1, 1, 1, 1], degree=3))
        make_face(mode=Mode.SUBTRACT)
        with BuildLine():
            add(Edge.make_bspline(
                [(-39.7768207962, 5.6697524397), (-40.1852728212, 5.7373921258), (-41.2704362, 3.5316249375), (-41.5035483817, 0.1758675537), (-38.8684793392, 3.1721222674), (-39.3847992684, 5.6048336452), (-39.7768207962, 5.6697524397)],
                knots=[0, 0, 0, 0, 0.2558063053, 0.4937782553, 0.7544838256, 1, 1, 1, 1], degree=3))
        make_face(mode=Mode.SUBTRACT)
    extrude(amount=F1_DEPTH)


with BuildPart() as f1d:
    # F0 (on Top) → F1, piece 4 (new body)
    with BuildSketch(Plane.XY):
        with BuildLine():
            add(Edge.make_bspline(
                [(-30.6827315265, -16.5991295816), (-31.3731732019, -16.6907396393), (-33.3350469232, -16.608364309), (-33.4271397228, -23.0760988942), (-32.5850345704, -29.2142737309), (-28.1857420442, -26.9800038449), (-25.9051410432, -28.4825490221), (-25.6148980358, -24.9722371594), (-20.2018494961, -22.7005330704), (-22.957015568, -10.9640145942), (-15.5377674801, -13.5391728544), (-21.2241996559, -7.8555882432), (-22.3184238538, -11.1155559033), (-25.5138308278, -9.2326636643), (-29.0252113374, -11.4694796026), (-30.1082277785, -17.1454993482), (-24.0435916682, -10.7394016932), (-22.6575649282, -17.9109548995), (-26.8961254283, -23.4482066334), (-30.7658504103, -23.7781860379), (-30.6469409528, -18.9811431103), (-28.3165477598, -18.2176459763), (-28.8877316428, -16.1629888674), (-30.0517518589, -16.5154091374), (-30.6827315265, -16.5991295816)],
                knots=[0, 0, 0, 0, 0.0339757296, 0.0934420119, 0.1478654818, 0.1941766995, 0.2274990403, 0.2647259731, 0.3202828963, 0.3930024187, 0.4354816966, 0.4865498137, 0.520404168, 0.5612155343, 0.6100773687, 0.6523155663, 0.7054577859, 0.7563716004, 0.820899101, 0.8598219052, 0.9060253244, 0.9409296147, 0.9689503178, 1, 1, 1, 1], degree=3))
        make_face()
    extrude(amount=F1_DEPTH)


solid = Compound([f1.part, f1b.part, f1c.part, f1d.part])
